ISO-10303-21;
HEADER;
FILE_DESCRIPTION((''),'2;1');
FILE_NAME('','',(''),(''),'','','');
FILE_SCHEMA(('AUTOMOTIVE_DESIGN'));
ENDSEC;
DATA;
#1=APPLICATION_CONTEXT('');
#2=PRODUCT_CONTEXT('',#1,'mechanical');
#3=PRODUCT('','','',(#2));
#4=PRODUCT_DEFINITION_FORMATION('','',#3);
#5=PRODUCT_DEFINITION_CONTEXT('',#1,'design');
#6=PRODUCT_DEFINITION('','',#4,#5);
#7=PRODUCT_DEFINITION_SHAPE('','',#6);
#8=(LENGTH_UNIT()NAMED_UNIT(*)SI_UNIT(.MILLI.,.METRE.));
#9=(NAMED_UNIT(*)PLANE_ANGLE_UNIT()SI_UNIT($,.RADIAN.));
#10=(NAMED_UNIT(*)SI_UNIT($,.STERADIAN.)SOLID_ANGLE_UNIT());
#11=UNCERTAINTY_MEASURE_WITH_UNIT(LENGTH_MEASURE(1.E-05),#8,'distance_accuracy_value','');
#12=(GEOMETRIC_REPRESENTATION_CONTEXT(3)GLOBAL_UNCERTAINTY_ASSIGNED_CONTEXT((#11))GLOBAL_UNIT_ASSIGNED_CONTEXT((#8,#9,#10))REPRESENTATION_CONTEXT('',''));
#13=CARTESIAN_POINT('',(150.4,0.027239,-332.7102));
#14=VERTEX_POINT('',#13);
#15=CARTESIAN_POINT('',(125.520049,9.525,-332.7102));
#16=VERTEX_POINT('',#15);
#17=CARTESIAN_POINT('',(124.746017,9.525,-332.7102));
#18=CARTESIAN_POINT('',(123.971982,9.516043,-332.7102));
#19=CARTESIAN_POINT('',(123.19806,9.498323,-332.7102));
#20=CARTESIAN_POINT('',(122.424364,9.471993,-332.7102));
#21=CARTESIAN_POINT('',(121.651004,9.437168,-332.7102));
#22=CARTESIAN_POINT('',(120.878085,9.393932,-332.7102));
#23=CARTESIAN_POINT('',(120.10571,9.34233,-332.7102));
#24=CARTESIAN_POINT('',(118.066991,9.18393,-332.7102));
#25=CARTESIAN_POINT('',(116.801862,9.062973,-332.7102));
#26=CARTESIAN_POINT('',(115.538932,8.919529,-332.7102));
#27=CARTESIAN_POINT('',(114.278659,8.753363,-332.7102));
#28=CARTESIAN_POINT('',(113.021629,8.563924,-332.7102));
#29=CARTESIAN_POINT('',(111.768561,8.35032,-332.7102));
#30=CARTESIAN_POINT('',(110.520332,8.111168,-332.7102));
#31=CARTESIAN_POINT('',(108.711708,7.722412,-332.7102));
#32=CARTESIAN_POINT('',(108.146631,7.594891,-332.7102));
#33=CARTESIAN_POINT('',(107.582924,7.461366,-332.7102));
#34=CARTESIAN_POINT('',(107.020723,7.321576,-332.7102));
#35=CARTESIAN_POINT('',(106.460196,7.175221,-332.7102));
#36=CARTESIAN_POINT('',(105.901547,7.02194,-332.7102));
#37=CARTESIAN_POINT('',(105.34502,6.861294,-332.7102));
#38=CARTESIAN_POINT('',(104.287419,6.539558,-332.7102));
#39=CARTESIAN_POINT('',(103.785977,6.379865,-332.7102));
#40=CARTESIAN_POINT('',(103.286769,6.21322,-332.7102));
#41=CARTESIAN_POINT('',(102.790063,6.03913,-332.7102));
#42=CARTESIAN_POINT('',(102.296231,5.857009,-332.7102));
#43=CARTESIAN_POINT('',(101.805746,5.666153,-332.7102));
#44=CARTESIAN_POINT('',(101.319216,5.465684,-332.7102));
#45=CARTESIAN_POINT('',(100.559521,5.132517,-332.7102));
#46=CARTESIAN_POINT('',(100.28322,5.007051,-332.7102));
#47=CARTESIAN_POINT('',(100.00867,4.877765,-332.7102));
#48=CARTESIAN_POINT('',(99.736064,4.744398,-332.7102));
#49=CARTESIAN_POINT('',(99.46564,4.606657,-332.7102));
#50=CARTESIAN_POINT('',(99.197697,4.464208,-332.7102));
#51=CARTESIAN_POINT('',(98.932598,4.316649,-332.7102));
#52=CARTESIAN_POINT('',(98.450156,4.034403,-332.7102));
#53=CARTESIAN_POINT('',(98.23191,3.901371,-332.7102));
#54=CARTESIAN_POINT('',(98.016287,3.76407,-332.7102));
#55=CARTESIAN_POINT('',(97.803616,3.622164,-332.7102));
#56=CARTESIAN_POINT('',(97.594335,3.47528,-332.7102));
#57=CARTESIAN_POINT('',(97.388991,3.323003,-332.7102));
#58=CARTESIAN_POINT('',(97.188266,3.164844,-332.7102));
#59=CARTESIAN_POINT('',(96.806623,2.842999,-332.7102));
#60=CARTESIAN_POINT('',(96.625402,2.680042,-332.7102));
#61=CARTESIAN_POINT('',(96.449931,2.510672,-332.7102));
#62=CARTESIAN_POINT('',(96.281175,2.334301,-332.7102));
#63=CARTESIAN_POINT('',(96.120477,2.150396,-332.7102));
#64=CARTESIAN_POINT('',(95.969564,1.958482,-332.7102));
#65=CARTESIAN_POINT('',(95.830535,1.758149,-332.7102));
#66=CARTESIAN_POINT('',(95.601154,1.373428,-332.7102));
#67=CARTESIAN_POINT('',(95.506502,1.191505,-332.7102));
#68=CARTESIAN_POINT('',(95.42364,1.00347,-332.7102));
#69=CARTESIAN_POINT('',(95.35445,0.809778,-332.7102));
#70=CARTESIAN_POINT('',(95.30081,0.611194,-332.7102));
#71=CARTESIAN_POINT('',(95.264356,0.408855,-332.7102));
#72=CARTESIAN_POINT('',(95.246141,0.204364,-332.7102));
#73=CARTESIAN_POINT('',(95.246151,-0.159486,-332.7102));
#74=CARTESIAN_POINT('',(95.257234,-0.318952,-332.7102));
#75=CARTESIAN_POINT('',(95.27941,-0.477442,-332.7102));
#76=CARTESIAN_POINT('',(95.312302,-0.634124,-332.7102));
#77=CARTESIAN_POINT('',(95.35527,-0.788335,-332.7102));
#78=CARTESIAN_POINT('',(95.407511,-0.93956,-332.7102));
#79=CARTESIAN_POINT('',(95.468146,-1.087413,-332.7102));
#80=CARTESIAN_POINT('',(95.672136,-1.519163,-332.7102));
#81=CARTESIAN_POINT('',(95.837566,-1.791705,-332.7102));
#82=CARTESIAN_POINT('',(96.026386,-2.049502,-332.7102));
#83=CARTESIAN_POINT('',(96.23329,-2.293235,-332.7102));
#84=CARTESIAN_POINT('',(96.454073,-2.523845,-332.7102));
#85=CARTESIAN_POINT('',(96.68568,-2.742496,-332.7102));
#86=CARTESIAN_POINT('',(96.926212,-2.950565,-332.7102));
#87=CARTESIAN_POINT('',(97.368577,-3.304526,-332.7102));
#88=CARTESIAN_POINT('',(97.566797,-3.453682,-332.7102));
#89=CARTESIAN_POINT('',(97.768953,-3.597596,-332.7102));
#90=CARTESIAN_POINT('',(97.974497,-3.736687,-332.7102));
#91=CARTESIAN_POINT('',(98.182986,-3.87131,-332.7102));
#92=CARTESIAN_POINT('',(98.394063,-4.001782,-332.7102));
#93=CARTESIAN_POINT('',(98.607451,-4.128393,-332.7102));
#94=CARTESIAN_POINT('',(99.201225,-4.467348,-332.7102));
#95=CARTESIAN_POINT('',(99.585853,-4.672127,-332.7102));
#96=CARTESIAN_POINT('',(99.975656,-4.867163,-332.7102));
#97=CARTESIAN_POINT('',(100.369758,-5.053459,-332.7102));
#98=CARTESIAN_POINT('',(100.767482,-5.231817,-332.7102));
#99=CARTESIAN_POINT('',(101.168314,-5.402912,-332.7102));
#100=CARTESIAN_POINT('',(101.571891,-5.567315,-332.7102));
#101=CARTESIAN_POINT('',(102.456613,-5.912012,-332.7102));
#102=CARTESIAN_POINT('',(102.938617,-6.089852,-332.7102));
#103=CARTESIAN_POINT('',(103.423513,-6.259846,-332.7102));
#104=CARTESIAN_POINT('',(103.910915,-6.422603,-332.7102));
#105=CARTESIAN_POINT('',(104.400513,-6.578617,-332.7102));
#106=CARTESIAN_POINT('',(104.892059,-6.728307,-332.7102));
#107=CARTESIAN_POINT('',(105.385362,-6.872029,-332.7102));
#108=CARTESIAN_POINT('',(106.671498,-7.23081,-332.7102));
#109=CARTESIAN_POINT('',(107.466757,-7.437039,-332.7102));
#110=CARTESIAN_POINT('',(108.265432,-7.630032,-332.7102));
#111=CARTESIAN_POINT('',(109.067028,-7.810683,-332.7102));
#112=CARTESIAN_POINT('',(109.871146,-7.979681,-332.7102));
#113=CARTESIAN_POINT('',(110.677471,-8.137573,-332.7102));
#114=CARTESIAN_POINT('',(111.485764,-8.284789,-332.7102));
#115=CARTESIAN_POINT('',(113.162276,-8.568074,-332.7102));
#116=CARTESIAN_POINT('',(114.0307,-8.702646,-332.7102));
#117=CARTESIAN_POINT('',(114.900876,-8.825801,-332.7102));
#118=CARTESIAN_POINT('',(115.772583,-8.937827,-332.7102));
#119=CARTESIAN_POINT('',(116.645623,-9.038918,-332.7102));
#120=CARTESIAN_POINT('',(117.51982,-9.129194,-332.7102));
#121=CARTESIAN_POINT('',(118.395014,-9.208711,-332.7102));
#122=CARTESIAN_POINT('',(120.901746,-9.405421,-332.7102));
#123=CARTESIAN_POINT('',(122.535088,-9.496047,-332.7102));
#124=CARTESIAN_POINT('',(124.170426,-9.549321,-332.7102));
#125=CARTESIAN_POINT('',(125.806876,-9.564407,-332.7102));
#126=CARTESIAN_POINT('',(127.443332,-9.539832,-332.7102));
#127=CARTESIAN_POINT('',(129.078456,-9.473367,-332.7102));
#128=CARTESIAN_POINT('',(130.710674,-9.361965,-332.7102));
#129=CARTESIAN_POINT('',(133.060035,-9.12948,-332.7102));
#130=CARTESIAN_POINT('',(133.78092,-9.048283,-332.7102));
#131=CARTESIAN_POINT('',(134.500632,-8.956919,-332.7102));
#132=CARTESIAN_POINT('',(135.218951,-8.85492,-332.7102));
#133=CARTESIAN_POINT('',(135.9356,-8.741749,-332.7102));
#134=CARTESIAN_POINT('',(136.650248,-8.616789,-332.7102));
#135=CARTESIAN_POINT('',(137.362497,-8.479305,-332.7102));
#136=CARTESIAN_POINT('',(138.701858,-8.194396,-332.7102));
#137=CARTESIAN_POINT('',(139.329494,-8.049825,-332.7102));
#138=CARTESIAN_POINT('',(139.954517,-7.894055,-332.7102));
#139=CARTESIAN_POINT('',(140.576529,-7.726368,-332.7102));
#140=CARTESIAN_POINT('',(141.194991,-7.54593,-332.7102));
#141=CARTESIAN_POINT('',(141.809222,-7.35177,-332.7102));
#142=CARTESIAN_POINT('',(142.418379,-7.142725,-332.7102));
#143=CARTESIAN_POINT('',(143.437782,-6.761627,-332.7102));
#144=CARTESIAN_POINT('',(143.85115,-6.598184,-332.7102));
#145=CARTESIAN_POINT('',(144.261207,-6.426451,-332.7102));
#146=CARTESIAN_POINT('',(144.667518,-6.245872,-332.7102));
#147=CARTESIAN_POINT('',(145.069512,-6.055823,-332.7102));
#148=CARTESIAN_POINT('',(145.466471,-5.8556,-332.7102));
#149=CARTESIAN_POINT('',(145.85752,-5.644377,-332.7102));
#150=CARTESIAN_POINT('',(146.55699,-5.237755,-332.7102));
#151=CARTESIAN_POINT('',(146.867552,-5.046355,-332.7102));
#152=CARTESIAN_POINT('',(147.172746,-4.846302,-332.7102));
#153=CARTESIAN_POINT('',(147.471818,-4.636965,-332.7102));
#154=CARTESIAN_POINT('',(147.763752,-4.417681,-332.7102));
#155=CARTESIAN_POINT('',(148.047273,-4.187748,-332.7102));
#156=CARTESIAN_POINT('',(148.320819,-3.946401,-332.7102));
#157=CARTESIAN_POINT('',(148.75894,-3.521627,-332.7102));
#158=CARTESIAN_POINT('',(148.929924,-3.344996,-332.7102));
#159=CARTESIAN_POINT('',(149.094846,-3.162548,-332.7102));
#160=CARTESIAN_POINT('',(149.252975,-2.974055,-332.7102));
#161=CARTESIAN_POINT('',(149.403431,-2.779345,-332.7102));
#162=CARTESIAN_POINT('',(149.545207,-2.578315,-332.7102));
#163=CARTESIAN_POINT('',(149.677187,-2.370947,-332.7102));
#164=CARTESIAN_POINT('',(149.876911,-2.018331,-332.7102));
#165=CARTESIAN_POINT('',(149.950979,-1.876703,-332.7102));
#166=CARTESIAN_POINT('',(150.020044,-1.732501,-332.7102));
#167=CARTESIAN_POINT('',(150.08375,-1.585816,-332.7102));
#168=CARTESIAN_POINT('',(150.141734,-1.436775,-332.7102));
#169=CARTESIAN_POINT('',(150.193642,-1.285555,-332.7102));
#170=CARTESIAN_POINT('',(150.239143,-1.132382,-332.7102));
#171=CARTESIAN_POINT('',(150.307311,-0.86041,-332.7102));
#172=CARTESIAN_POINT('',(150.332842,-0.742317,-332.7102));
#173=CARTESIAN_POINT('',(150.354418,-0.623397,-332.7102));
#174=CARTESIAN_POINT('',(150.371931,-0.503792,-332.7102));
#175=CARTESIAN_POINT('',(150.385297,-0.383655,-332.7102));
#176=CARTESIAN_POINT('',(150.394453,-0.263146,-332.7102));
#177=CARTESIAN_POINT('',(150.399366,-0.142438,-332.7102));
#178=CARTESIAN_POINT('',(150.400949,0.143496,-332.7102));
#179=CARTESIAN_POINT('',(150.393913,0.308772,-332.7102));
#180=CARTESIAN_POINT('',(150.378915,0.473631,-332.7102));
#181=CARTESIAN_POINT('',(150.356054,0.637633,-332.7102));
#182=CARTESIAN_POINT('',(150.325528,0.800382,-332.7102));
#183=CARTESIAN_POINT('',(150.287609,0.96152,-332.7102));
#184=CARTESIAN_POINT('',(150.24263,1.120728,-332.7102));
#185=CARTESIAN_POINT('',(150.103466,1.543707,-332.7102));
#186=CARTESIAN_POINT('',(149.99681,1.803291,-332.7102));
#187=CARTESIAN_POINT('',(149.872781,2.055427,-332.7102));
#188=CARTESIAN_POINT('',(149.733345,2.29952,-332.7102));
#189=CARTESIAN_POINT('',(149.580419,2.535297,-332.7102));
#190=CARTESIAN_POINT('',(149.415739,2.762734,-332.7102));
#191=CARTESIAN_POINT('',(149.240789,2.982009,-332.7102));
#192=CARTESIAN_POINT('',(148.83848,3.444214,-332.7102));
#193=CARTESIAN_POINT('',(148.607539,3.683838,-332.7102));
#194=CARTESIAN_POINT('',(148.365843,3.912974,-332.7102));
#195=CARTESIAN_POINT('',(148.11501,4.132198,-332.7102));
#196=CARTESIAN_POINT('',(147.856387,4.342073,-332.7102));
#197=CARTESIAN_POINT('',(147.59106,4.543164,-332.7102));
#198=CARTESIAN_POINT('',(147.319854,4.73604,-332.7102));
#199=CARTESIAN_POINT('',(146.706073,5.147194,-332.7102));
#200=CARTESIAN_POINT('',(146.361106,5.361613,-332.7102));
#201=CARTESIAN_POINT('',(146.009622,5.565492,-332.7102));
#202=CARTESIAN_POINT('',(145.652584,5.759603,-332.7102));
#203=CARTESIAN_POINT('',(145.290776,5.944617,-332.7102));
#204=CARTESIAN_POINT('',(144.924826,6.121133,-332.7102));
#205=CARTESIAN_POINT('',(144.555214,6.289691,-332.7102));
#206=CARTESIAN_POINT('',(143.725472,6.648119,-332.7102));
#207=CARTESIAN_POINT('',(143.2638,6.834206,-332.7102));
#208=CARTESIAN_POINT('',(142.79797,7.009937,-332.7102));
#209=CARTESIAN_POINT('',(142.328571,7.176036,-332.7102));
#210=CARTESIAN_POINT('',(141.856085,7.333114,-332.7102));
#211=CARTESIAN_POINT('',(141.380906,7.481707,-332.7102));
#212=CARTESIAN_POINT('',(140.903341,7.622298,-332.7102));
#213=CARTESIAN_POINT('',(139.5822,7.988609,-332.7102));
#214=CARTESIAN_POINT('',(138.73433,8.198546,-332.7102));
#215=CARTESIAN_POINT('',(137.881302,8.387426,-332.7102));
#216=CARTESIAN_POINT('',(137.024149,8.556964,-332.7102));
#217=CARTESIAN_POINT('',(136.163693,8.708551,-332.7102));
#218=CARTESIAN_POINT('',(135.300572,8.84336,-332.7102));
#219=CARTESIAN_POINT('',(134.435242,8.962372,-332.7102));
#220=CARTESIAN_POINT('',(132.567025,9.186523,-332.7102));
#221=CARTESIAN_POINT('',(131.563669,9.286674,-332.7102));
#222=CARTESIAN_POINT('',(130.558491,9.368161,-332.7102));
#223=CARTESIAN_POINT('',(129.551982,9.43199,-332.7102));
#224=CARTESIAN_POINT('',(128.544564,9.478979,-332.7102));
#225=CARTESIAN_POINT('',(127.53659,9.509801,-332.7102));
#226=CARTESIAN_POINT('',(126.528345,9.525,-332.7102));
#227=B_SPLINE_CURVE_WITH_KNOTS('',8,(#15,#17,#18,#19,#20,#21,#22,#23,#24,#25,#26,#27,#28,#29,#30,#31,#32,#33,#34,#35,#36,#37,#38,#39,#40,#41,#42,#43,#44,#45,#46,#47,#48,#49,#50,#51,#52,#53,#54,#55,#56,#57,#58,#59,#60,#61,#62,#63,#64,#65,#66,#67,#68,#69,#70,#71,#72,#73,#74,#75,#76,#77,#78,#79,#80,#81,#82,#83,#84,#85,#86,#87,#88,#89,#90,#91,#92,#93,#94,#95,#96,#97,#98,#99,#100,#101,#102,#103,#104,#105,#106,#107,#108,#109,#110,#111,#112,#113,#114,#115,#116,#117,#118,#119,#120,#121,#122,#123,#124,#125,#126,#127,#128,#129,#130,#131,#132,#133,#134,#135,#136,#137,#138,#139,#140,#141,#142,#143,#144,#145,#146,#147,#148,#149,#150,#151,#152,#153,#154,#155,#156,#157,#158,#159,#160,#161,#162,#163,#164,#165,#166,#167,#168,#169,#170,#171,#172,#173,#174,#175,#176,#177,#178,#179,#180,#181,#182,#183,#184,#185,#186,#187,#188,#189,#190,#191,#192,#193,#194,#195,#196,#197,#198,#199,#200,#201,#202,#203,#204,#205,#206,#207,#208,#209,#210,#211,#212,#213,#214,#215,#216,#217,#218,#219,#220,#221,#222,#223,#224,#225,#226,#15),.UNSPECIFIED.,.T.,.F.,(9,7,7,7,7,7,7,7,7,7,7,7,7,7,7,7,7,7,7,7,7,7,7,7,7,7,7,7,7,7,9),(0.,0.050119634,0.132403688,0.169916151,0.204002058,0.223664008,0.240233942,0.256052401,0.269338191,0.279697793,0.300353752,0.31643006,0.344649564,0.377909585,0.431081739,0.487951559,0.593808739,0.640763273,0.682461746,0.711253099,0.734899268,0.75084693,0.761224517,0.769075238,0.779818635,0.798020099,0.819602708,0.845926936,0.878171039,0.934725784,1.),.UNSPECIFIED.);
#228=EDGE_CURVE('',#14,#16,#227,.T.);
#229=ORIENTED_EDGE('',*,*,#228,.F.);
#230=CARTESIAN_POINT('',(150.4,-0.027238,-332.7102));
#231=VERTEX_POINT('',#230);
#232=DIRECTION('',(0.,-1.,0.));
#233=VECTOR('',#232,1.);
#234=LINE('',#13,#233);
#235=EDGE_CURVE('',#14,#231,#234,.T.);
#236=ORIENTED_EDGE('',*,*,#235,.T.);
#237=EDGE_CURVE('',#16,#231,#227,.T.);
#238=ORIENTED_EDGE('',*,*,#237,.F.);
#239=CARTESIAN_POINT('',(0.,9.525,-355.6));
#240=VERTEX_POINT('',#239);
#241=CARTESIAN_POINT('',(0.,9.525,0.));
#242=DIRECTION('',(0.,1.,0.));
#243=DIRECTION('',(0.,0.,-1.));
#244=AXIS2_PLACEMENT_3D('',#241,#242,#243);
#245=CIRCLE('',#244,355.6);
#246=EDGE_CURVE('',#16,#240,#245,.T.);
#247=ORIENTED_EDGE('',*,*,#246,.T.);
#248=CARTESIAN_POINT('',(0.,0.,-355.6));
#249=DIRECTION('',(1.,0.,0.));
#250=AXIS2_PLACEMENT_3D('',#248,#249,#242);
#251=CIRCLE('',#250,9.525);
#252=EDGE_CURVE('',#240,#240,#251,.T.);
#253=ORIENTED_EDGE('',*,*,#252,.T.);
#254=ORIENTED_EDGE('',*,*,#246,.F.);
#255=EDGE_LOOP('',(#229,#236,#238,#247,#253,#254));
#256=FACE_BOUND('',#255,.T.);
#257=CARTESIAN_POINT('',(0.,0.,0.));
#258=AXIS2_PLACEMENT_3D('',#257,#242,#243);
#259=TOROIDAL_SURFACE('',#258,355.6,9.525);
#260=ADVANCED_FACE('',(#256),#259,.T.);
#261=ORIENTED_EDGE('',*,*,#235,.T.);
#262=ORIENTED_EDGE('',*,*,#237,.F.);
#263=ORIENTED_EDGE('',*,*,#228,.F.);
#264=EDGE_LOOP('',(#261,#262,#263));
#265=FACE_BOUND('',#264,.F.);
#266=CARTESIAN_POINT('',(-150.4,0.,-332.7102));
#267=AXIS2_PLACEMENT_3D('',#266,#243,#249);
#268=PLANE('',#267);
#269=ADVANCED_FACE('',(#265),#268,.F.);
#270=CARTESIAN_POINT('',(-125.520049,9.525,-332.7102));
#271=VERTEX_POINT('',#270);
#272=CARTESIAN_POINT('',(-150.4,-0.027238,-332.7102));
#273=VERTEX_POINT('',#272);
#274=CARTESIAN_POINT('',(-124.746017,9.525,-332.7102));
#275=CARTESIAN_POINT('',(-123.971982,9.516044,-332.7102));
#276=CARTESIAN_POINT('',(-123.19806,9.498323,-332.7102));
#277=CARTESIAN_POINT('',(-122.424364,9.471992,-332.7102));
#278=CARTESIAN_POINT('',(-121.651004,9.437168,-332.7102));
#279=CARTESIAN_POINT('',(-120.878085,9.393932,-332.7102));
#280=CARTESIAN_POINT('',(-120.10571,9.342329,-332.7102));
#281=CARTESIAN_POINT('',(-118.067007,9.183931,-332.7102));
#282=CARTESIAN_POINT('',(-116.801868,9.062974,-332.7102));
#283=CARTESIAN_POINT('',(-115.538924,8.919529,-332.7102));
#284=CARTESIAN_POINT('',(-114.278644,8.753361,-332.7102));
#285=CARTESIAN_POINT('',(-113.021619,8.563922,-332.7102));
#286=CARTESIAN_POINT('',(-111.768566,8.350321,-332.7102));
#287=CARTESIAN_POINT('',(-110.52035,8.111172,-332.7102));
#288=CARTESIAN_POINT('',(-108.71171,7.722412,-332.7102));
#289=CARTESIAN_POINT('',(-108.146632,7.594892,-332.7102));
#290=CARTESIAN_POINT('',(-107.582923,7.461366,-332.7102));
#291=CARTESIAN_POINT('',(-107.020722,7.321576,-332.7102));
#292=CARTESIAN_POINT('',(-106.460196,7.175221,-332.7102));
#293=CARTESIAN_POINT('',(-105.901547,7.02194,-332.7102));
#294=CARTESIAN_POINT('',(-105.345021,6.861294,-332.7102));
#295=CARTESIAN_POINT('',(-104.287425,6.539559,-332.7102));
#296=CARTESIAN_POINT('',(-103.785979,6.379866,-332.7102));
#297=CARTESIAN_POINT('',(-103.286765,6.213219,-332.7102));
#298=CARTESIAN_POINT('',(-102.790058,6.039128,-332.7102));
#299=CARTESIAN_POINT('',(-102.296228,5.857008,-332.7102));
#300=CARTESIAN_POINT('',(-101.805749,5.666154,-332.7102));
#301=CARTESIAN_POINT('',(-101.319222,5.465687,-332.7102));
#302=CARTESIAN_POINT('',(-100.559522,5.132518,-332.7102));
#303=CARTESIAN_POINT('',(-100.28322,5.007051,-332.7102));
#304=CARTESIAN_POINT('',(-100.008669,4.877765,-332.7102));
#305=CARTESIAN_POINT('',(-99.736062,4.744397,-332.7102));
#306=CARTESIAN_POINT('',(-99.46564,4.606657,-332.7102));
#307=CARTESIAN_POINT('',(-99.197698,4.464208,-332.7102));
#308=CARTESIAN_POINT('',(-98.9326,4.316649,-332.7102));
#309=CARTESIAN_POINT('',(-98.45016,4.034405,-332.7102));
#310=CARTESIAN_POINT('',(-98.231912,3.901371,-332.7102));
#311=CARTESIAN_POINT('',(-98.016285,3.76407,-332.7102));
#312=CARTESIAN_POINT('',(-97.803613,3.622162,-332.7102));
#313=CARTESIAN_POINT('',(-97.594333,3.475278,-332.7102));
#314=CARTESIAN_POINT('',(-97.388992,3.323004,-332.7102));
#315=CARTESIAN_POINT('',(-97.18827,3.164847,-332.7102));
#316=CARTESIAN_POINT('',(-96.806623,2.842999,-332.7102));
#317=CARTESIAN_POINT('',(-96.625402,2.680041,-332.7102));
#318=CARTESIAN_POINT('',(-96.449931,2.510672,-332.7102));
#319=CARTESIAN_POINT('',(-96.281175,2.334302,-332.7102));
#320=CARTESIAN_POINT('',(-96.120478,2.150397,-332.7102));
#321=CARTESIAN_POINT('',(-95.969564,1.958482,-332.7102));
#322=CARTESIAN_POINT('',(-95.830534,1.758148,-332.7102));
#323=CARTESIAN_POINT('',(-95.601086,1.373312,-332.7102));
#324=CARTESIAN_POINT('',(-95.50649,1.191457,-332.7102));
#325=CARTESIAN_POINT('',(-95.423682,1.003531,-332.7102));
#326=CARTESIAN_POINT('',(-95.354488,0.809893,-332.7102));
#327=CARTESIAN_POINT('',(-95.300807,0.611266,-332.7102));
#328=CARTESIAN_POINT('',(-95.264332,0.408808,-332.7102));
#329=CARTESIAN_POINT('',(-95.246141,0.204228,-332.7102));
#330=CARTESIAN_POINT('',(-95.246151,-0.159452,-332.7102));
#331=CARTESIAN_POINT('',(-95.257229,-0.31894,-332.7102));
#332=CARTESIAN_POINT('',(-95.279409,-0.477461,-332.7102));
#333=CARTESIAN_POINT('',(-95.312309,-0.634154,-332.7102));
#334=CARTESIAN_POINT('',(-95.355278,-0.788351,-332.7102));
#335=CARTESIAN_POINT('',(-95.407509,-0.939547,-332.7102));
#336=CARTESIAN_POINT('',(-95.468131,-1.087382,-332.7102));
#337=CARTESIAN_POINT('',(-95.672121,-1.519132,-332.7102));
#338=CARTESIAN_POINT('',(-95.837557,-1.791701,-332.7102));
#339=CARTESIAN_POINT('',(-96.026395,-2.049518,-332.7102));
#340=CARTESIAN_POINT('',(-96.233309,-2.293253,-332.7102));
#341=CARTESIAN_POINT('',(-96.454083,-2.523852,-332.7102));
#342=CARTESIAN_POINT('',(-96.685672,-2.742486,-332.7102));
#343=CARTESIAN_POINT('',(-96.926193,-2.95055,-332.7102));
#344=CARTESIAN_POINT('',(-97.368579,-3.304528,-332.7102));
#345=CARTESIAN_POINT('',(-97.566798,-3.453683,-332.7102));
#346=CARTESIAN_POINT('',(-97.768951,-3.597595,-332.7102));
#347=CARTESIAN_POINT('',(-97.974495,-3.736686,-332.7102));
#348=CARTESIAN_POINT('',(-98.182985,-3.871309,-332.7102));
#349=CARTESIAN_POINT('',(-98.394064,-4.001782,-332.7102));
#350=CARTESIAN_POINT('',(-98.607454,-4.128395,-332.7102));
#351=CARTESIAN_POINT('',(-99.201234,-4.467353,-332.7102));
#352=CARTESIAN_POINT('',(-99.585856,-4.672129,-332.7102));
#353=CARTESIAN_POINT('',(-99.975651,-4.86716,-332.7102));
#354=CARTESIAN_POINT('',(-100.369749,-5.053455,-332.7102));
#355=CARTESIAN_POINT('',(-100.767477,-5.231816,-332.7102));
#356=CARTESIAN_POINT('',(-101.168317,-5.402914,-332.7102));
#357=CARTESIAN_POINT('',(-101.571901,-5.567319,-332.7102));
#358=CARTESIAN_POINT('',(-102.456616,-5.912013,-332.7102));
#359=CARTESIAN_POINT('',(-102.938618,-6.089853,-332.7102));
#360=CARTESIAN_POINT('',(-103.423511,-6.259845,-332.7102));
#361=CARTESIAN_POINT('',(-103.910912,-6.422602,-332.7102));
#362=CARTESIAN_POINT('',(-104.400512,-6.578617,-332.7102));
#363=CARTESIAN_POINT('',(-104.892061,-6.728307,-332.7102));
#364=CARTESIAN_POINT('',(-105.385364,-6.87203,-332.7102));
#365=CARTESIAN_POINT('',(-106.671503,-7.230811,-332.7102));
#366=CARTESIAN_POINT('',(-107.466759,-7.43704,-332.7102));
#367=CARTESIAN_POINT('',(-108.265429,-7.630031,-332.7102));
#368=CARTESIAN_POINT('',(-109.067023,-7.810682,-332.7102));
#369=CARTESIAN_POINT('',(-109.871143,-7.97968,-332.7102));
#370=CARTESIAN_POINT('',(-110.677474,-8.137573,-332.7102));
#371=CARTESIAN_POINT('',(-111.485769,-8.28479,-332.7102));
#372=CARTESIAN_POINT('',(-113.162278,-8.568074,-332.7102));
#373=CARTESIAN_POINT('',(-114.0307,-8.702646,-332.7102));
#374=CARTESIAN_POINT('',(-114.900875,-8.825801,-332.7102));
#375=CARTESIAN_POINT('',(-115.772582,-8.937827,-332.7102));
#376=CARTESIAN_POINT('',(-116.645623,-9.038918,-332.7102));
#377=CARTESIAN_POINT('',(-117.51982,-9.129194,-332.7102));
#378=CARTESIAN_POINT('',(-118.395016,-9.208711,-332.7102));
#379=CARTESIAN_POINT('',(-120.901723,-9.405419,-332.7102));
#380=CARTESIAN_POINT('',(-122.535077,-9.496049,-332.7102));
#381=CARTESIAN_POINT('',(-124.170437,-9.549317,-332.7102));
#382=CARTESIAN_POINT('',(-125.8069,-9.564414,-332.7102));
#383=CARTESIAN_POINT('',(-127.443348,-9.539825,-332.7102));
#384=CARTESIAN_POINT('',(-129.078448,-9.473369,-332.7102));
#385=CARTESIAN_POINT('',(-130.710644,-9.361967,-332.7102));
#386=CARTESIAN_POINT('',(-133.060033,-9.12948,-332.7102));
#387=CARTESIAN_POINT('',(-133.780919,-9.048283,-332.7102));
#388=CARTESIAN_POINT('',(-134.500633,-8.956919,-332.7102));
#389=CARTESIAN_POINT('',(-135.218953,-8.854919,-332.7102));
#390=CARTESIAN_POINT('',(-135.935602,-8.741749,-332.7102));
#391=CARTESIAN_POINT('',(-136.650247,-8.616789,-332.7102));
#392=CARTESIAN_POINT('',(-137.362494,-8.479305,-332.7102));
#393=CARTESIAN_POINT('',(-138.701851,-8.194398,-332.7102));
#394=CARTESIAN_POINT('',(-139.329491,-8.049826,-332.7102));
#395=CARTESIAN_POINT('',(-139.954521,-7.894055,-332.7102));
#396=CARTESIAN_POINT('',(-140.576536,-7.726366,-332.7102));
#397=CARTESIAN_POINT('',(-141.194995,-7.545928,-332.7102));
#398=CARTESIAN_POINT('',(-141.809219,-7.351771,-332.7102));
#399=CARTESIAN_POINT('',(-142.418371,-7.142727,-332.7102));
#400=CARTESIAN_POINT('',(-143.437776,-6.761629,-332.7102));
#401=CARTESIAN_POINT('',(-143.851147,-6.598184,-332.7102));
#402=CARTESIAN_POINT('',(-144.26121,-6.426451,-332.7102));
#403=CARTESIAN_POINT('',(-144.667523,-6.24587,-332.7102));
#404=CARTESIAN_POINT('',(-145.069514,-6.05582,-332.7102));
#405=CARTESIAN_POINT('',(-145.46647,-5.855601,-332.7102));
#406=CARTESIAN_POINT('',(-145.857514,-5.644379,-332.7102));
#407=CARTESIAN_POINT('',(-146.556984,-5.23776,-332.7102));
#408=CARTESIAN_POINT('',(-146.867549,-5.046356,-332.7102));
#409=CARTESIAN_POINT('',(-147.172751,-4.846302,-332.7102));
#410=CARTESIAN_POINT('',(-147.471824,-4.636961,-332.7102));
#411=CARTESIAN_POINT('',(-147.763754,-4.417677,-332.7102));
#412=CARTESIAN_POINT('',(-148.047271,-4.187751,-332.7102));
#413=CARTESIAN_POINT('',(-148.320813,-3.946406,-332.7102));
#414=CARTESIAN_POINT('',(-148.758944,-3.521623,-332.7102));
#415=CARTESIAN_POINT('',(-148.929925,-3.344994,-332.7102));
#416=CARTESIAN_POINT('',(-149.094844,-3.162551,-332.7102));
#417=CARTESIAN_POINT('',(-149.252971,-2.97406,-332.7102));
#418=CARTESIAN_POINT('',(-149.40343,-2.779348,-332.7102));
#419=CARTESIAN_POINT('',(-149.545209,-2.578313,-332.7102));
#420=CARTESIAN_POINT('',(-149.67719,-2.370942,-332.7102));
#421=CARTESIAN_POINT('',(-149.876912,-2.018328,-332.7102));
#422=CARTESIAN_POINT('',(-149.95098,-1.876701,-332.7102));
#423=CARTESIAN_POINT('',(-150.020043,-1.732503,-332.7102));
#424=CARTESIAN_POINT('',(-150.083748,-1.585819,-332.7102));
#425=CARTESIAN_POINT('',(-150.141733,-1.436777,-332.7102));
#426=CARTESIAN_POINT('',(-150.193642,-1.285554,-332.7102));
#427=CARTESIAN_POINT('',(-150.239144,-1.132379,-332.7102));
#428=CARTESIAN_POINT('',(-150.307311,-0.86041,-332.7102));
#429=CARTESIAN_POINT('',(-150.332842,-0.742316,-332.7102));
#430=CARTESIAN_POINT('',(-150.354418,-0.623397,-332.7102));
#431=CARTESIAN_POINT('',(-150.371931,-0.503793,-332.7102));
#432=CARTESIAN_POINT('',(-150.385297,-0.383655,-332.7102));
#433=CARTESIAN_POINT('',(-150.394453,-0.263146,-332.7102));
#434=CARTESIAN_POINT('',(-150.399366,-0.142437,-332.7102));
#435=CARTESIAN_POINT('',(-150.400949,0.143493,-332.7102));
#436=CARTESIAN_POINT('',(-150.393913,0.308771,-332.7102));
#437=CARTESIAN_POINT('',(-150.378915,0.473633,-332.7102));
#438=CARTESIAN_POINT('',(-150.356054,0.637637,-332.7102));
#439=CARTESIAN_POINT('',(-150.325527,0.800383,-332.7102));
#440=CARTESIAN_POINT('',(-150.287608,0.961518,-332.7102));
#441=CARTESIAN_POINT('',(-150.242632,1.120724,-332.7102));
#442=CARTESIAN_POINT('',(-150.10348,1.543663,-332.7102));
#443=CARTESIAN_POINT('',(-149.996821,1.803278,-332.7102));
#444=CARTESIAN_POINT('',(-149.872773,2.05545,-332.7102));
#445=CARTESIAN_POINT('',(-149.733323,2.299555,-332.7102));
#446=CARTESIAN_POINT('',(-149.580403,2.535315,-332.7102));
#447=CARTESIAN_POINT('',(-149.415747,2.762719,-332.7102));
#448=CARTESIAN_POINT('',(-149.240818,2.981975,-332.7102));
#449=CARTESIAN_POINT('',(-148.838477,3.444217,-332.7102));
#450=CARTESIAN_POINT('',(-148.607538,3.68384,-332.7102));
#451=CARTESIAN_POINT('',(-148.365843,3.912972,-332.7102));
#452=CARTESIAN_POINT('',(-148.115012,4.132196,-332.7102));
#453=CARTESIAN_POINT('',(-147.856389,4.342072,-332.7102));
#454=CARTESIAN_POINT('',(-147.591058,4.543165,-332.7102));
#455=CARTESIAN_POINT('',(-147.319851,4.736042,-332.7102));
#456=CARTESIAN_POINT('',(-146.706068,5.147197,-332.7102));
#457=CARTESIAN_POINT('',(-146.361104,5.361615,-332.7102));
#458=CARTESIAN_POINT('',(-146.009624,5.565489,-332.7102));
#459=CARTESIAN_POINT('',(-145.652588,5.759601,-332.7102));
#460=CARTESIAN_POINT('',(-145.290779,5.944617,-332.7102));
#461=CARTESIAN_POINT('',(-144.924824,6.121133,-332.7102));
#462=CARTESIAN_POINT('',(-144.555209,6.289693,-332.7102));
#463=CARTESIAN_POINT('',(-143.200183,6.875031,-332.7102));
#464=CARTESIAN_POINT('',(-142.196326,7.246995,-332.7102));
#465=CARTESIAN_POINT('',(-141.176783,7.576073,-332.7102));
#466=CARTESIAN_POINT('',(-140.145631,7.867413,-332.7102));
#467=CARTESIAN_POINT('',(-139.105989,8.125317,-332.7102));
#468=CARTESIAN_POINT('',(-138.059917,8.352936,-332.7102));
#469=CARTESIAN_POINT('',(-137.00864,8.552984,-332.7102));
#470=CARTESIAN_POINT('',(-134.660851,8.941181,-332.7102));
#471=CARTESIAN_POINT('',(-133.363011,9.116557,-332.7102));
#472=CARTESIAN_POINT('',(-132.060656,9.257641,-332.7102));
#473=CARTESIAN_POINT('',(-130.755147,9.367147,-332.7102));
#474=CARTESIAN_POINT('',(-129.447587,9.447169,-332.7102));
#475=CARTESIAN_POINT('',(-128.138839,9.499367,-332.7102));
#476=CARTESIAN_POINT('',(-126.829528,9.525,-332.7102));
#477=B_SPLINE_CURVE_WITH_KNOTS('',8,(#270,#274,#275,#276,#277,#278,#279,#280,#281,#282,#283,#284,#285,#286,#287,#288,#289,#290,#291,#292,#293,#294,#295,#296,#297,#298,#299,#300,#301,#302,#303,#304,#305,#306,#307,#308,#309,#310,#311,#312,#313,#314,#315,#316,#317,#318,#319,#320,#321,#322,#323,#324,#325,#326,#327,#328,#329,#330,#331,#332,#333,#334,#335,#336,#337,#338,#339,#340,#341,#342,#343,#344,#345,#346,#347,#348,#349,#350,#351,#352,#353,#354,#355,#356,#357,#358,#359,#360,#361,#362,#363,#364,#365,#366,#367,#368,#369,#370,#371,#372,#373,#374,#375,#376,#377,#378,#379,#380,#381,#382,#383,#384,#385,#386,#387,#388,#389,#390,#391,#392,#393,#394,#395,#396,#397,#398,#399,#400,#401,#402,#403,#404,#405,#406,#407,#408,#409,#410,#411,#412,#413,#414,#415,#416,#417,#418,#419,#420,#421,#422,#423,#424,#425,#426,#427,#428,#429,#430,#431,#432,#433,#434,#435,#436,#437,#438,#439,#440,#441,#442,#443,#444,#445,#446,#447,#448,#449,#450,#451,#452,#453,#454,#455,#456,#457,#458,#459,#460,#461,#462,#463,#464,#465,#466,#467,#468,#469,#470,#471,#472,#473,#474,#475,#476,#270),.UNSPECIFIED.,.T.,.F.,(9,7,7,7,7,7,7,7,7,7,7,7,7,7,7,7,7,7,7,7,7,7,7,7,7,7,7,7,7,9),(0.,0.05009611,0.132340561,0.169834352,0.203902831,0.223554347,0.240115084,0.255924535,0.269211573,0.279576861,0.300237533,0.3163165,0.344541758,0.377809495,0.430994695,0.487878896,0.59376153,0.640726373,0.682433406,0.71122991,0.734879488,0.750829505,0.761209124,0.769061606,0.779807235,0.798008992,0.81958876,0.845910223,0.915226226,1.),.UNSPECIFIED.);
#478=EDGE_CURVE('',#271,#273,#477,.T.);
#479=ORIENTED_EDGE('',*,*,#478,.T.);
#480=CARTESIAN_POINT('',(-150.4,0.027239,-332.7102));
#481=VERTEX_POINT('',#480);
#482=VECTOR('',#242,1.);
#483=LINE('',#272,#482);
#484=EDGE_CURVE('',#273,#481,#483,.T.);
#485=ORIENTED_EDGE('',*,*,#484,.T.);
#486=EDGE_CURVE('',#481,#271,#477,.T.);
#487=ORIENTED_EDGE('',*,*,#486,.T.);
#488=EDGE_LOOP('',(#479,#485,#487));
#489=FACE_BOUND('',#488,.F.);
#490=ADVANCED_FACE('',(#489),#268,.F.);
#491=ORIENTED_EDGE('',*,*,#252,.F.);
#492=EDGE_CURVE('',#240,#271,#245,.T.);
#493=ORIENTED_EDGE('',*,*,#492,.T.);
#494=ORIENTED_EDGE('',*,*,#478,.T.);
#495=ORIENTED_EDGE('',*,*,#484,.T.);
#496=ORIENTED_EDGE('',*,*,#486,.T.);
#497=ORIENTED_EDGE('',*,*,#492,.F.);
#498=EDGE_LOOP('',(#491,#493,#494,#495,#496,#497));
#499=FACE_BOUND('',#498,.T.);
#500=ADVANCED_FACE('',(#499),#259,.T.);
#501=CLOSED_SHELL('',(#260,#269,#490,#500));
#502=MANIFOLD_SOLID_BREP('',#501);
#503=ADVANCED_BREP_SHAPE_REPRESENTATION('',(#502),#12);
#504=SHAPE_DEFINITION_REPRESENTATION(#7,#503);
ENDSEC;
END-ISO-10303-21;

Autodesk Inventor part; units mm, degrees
ref_plane "YZ Plane" through (0, 0, 0) normal (1, 0, 0) x (0, 1, 0)
ref_plane "XZ Plane" through (0, 0, 0) normal (0, 1, 0) x (-1, 0, 0)
ref_plane "XY Plane" through (0, 0, 0) normal (0, 0, 1) x (1, 0, 0)
sketch "Sketch1" plane through (0, 0, 0) normal (1, 0, 0) x (0, 1, 0)
  circle A0 centre (0, -355.6) radius 9.525
  line L0 (-13.335, 0) -> (13.335, 0) projected
  point P0 (0, 0)
  dimension "d0" = 19.05
  dimension "d1" = 355.6
revolve "Revolution1" add sketch "Sketch1" angle 360 about axis through (0, -10, 0) along (0, 1, 0)
sketch "Sketch2" plane through (0, 0, 0) normal (0, 1, 0) x (-1, 0, 0)
  circle A0 centre (0, 0) radius 365.125 projected
  line L0 (150.4, -332.7102) -> (-150.4, -332.7102)
  dimension "d3" = 300.8
extrude "Extrusion1" cut sketch "Sketch2" along normal mid plane 25.4 contours A0 L0 picked at (2.2276, -100.1189)
properties part number "Hula Hoop-1"
